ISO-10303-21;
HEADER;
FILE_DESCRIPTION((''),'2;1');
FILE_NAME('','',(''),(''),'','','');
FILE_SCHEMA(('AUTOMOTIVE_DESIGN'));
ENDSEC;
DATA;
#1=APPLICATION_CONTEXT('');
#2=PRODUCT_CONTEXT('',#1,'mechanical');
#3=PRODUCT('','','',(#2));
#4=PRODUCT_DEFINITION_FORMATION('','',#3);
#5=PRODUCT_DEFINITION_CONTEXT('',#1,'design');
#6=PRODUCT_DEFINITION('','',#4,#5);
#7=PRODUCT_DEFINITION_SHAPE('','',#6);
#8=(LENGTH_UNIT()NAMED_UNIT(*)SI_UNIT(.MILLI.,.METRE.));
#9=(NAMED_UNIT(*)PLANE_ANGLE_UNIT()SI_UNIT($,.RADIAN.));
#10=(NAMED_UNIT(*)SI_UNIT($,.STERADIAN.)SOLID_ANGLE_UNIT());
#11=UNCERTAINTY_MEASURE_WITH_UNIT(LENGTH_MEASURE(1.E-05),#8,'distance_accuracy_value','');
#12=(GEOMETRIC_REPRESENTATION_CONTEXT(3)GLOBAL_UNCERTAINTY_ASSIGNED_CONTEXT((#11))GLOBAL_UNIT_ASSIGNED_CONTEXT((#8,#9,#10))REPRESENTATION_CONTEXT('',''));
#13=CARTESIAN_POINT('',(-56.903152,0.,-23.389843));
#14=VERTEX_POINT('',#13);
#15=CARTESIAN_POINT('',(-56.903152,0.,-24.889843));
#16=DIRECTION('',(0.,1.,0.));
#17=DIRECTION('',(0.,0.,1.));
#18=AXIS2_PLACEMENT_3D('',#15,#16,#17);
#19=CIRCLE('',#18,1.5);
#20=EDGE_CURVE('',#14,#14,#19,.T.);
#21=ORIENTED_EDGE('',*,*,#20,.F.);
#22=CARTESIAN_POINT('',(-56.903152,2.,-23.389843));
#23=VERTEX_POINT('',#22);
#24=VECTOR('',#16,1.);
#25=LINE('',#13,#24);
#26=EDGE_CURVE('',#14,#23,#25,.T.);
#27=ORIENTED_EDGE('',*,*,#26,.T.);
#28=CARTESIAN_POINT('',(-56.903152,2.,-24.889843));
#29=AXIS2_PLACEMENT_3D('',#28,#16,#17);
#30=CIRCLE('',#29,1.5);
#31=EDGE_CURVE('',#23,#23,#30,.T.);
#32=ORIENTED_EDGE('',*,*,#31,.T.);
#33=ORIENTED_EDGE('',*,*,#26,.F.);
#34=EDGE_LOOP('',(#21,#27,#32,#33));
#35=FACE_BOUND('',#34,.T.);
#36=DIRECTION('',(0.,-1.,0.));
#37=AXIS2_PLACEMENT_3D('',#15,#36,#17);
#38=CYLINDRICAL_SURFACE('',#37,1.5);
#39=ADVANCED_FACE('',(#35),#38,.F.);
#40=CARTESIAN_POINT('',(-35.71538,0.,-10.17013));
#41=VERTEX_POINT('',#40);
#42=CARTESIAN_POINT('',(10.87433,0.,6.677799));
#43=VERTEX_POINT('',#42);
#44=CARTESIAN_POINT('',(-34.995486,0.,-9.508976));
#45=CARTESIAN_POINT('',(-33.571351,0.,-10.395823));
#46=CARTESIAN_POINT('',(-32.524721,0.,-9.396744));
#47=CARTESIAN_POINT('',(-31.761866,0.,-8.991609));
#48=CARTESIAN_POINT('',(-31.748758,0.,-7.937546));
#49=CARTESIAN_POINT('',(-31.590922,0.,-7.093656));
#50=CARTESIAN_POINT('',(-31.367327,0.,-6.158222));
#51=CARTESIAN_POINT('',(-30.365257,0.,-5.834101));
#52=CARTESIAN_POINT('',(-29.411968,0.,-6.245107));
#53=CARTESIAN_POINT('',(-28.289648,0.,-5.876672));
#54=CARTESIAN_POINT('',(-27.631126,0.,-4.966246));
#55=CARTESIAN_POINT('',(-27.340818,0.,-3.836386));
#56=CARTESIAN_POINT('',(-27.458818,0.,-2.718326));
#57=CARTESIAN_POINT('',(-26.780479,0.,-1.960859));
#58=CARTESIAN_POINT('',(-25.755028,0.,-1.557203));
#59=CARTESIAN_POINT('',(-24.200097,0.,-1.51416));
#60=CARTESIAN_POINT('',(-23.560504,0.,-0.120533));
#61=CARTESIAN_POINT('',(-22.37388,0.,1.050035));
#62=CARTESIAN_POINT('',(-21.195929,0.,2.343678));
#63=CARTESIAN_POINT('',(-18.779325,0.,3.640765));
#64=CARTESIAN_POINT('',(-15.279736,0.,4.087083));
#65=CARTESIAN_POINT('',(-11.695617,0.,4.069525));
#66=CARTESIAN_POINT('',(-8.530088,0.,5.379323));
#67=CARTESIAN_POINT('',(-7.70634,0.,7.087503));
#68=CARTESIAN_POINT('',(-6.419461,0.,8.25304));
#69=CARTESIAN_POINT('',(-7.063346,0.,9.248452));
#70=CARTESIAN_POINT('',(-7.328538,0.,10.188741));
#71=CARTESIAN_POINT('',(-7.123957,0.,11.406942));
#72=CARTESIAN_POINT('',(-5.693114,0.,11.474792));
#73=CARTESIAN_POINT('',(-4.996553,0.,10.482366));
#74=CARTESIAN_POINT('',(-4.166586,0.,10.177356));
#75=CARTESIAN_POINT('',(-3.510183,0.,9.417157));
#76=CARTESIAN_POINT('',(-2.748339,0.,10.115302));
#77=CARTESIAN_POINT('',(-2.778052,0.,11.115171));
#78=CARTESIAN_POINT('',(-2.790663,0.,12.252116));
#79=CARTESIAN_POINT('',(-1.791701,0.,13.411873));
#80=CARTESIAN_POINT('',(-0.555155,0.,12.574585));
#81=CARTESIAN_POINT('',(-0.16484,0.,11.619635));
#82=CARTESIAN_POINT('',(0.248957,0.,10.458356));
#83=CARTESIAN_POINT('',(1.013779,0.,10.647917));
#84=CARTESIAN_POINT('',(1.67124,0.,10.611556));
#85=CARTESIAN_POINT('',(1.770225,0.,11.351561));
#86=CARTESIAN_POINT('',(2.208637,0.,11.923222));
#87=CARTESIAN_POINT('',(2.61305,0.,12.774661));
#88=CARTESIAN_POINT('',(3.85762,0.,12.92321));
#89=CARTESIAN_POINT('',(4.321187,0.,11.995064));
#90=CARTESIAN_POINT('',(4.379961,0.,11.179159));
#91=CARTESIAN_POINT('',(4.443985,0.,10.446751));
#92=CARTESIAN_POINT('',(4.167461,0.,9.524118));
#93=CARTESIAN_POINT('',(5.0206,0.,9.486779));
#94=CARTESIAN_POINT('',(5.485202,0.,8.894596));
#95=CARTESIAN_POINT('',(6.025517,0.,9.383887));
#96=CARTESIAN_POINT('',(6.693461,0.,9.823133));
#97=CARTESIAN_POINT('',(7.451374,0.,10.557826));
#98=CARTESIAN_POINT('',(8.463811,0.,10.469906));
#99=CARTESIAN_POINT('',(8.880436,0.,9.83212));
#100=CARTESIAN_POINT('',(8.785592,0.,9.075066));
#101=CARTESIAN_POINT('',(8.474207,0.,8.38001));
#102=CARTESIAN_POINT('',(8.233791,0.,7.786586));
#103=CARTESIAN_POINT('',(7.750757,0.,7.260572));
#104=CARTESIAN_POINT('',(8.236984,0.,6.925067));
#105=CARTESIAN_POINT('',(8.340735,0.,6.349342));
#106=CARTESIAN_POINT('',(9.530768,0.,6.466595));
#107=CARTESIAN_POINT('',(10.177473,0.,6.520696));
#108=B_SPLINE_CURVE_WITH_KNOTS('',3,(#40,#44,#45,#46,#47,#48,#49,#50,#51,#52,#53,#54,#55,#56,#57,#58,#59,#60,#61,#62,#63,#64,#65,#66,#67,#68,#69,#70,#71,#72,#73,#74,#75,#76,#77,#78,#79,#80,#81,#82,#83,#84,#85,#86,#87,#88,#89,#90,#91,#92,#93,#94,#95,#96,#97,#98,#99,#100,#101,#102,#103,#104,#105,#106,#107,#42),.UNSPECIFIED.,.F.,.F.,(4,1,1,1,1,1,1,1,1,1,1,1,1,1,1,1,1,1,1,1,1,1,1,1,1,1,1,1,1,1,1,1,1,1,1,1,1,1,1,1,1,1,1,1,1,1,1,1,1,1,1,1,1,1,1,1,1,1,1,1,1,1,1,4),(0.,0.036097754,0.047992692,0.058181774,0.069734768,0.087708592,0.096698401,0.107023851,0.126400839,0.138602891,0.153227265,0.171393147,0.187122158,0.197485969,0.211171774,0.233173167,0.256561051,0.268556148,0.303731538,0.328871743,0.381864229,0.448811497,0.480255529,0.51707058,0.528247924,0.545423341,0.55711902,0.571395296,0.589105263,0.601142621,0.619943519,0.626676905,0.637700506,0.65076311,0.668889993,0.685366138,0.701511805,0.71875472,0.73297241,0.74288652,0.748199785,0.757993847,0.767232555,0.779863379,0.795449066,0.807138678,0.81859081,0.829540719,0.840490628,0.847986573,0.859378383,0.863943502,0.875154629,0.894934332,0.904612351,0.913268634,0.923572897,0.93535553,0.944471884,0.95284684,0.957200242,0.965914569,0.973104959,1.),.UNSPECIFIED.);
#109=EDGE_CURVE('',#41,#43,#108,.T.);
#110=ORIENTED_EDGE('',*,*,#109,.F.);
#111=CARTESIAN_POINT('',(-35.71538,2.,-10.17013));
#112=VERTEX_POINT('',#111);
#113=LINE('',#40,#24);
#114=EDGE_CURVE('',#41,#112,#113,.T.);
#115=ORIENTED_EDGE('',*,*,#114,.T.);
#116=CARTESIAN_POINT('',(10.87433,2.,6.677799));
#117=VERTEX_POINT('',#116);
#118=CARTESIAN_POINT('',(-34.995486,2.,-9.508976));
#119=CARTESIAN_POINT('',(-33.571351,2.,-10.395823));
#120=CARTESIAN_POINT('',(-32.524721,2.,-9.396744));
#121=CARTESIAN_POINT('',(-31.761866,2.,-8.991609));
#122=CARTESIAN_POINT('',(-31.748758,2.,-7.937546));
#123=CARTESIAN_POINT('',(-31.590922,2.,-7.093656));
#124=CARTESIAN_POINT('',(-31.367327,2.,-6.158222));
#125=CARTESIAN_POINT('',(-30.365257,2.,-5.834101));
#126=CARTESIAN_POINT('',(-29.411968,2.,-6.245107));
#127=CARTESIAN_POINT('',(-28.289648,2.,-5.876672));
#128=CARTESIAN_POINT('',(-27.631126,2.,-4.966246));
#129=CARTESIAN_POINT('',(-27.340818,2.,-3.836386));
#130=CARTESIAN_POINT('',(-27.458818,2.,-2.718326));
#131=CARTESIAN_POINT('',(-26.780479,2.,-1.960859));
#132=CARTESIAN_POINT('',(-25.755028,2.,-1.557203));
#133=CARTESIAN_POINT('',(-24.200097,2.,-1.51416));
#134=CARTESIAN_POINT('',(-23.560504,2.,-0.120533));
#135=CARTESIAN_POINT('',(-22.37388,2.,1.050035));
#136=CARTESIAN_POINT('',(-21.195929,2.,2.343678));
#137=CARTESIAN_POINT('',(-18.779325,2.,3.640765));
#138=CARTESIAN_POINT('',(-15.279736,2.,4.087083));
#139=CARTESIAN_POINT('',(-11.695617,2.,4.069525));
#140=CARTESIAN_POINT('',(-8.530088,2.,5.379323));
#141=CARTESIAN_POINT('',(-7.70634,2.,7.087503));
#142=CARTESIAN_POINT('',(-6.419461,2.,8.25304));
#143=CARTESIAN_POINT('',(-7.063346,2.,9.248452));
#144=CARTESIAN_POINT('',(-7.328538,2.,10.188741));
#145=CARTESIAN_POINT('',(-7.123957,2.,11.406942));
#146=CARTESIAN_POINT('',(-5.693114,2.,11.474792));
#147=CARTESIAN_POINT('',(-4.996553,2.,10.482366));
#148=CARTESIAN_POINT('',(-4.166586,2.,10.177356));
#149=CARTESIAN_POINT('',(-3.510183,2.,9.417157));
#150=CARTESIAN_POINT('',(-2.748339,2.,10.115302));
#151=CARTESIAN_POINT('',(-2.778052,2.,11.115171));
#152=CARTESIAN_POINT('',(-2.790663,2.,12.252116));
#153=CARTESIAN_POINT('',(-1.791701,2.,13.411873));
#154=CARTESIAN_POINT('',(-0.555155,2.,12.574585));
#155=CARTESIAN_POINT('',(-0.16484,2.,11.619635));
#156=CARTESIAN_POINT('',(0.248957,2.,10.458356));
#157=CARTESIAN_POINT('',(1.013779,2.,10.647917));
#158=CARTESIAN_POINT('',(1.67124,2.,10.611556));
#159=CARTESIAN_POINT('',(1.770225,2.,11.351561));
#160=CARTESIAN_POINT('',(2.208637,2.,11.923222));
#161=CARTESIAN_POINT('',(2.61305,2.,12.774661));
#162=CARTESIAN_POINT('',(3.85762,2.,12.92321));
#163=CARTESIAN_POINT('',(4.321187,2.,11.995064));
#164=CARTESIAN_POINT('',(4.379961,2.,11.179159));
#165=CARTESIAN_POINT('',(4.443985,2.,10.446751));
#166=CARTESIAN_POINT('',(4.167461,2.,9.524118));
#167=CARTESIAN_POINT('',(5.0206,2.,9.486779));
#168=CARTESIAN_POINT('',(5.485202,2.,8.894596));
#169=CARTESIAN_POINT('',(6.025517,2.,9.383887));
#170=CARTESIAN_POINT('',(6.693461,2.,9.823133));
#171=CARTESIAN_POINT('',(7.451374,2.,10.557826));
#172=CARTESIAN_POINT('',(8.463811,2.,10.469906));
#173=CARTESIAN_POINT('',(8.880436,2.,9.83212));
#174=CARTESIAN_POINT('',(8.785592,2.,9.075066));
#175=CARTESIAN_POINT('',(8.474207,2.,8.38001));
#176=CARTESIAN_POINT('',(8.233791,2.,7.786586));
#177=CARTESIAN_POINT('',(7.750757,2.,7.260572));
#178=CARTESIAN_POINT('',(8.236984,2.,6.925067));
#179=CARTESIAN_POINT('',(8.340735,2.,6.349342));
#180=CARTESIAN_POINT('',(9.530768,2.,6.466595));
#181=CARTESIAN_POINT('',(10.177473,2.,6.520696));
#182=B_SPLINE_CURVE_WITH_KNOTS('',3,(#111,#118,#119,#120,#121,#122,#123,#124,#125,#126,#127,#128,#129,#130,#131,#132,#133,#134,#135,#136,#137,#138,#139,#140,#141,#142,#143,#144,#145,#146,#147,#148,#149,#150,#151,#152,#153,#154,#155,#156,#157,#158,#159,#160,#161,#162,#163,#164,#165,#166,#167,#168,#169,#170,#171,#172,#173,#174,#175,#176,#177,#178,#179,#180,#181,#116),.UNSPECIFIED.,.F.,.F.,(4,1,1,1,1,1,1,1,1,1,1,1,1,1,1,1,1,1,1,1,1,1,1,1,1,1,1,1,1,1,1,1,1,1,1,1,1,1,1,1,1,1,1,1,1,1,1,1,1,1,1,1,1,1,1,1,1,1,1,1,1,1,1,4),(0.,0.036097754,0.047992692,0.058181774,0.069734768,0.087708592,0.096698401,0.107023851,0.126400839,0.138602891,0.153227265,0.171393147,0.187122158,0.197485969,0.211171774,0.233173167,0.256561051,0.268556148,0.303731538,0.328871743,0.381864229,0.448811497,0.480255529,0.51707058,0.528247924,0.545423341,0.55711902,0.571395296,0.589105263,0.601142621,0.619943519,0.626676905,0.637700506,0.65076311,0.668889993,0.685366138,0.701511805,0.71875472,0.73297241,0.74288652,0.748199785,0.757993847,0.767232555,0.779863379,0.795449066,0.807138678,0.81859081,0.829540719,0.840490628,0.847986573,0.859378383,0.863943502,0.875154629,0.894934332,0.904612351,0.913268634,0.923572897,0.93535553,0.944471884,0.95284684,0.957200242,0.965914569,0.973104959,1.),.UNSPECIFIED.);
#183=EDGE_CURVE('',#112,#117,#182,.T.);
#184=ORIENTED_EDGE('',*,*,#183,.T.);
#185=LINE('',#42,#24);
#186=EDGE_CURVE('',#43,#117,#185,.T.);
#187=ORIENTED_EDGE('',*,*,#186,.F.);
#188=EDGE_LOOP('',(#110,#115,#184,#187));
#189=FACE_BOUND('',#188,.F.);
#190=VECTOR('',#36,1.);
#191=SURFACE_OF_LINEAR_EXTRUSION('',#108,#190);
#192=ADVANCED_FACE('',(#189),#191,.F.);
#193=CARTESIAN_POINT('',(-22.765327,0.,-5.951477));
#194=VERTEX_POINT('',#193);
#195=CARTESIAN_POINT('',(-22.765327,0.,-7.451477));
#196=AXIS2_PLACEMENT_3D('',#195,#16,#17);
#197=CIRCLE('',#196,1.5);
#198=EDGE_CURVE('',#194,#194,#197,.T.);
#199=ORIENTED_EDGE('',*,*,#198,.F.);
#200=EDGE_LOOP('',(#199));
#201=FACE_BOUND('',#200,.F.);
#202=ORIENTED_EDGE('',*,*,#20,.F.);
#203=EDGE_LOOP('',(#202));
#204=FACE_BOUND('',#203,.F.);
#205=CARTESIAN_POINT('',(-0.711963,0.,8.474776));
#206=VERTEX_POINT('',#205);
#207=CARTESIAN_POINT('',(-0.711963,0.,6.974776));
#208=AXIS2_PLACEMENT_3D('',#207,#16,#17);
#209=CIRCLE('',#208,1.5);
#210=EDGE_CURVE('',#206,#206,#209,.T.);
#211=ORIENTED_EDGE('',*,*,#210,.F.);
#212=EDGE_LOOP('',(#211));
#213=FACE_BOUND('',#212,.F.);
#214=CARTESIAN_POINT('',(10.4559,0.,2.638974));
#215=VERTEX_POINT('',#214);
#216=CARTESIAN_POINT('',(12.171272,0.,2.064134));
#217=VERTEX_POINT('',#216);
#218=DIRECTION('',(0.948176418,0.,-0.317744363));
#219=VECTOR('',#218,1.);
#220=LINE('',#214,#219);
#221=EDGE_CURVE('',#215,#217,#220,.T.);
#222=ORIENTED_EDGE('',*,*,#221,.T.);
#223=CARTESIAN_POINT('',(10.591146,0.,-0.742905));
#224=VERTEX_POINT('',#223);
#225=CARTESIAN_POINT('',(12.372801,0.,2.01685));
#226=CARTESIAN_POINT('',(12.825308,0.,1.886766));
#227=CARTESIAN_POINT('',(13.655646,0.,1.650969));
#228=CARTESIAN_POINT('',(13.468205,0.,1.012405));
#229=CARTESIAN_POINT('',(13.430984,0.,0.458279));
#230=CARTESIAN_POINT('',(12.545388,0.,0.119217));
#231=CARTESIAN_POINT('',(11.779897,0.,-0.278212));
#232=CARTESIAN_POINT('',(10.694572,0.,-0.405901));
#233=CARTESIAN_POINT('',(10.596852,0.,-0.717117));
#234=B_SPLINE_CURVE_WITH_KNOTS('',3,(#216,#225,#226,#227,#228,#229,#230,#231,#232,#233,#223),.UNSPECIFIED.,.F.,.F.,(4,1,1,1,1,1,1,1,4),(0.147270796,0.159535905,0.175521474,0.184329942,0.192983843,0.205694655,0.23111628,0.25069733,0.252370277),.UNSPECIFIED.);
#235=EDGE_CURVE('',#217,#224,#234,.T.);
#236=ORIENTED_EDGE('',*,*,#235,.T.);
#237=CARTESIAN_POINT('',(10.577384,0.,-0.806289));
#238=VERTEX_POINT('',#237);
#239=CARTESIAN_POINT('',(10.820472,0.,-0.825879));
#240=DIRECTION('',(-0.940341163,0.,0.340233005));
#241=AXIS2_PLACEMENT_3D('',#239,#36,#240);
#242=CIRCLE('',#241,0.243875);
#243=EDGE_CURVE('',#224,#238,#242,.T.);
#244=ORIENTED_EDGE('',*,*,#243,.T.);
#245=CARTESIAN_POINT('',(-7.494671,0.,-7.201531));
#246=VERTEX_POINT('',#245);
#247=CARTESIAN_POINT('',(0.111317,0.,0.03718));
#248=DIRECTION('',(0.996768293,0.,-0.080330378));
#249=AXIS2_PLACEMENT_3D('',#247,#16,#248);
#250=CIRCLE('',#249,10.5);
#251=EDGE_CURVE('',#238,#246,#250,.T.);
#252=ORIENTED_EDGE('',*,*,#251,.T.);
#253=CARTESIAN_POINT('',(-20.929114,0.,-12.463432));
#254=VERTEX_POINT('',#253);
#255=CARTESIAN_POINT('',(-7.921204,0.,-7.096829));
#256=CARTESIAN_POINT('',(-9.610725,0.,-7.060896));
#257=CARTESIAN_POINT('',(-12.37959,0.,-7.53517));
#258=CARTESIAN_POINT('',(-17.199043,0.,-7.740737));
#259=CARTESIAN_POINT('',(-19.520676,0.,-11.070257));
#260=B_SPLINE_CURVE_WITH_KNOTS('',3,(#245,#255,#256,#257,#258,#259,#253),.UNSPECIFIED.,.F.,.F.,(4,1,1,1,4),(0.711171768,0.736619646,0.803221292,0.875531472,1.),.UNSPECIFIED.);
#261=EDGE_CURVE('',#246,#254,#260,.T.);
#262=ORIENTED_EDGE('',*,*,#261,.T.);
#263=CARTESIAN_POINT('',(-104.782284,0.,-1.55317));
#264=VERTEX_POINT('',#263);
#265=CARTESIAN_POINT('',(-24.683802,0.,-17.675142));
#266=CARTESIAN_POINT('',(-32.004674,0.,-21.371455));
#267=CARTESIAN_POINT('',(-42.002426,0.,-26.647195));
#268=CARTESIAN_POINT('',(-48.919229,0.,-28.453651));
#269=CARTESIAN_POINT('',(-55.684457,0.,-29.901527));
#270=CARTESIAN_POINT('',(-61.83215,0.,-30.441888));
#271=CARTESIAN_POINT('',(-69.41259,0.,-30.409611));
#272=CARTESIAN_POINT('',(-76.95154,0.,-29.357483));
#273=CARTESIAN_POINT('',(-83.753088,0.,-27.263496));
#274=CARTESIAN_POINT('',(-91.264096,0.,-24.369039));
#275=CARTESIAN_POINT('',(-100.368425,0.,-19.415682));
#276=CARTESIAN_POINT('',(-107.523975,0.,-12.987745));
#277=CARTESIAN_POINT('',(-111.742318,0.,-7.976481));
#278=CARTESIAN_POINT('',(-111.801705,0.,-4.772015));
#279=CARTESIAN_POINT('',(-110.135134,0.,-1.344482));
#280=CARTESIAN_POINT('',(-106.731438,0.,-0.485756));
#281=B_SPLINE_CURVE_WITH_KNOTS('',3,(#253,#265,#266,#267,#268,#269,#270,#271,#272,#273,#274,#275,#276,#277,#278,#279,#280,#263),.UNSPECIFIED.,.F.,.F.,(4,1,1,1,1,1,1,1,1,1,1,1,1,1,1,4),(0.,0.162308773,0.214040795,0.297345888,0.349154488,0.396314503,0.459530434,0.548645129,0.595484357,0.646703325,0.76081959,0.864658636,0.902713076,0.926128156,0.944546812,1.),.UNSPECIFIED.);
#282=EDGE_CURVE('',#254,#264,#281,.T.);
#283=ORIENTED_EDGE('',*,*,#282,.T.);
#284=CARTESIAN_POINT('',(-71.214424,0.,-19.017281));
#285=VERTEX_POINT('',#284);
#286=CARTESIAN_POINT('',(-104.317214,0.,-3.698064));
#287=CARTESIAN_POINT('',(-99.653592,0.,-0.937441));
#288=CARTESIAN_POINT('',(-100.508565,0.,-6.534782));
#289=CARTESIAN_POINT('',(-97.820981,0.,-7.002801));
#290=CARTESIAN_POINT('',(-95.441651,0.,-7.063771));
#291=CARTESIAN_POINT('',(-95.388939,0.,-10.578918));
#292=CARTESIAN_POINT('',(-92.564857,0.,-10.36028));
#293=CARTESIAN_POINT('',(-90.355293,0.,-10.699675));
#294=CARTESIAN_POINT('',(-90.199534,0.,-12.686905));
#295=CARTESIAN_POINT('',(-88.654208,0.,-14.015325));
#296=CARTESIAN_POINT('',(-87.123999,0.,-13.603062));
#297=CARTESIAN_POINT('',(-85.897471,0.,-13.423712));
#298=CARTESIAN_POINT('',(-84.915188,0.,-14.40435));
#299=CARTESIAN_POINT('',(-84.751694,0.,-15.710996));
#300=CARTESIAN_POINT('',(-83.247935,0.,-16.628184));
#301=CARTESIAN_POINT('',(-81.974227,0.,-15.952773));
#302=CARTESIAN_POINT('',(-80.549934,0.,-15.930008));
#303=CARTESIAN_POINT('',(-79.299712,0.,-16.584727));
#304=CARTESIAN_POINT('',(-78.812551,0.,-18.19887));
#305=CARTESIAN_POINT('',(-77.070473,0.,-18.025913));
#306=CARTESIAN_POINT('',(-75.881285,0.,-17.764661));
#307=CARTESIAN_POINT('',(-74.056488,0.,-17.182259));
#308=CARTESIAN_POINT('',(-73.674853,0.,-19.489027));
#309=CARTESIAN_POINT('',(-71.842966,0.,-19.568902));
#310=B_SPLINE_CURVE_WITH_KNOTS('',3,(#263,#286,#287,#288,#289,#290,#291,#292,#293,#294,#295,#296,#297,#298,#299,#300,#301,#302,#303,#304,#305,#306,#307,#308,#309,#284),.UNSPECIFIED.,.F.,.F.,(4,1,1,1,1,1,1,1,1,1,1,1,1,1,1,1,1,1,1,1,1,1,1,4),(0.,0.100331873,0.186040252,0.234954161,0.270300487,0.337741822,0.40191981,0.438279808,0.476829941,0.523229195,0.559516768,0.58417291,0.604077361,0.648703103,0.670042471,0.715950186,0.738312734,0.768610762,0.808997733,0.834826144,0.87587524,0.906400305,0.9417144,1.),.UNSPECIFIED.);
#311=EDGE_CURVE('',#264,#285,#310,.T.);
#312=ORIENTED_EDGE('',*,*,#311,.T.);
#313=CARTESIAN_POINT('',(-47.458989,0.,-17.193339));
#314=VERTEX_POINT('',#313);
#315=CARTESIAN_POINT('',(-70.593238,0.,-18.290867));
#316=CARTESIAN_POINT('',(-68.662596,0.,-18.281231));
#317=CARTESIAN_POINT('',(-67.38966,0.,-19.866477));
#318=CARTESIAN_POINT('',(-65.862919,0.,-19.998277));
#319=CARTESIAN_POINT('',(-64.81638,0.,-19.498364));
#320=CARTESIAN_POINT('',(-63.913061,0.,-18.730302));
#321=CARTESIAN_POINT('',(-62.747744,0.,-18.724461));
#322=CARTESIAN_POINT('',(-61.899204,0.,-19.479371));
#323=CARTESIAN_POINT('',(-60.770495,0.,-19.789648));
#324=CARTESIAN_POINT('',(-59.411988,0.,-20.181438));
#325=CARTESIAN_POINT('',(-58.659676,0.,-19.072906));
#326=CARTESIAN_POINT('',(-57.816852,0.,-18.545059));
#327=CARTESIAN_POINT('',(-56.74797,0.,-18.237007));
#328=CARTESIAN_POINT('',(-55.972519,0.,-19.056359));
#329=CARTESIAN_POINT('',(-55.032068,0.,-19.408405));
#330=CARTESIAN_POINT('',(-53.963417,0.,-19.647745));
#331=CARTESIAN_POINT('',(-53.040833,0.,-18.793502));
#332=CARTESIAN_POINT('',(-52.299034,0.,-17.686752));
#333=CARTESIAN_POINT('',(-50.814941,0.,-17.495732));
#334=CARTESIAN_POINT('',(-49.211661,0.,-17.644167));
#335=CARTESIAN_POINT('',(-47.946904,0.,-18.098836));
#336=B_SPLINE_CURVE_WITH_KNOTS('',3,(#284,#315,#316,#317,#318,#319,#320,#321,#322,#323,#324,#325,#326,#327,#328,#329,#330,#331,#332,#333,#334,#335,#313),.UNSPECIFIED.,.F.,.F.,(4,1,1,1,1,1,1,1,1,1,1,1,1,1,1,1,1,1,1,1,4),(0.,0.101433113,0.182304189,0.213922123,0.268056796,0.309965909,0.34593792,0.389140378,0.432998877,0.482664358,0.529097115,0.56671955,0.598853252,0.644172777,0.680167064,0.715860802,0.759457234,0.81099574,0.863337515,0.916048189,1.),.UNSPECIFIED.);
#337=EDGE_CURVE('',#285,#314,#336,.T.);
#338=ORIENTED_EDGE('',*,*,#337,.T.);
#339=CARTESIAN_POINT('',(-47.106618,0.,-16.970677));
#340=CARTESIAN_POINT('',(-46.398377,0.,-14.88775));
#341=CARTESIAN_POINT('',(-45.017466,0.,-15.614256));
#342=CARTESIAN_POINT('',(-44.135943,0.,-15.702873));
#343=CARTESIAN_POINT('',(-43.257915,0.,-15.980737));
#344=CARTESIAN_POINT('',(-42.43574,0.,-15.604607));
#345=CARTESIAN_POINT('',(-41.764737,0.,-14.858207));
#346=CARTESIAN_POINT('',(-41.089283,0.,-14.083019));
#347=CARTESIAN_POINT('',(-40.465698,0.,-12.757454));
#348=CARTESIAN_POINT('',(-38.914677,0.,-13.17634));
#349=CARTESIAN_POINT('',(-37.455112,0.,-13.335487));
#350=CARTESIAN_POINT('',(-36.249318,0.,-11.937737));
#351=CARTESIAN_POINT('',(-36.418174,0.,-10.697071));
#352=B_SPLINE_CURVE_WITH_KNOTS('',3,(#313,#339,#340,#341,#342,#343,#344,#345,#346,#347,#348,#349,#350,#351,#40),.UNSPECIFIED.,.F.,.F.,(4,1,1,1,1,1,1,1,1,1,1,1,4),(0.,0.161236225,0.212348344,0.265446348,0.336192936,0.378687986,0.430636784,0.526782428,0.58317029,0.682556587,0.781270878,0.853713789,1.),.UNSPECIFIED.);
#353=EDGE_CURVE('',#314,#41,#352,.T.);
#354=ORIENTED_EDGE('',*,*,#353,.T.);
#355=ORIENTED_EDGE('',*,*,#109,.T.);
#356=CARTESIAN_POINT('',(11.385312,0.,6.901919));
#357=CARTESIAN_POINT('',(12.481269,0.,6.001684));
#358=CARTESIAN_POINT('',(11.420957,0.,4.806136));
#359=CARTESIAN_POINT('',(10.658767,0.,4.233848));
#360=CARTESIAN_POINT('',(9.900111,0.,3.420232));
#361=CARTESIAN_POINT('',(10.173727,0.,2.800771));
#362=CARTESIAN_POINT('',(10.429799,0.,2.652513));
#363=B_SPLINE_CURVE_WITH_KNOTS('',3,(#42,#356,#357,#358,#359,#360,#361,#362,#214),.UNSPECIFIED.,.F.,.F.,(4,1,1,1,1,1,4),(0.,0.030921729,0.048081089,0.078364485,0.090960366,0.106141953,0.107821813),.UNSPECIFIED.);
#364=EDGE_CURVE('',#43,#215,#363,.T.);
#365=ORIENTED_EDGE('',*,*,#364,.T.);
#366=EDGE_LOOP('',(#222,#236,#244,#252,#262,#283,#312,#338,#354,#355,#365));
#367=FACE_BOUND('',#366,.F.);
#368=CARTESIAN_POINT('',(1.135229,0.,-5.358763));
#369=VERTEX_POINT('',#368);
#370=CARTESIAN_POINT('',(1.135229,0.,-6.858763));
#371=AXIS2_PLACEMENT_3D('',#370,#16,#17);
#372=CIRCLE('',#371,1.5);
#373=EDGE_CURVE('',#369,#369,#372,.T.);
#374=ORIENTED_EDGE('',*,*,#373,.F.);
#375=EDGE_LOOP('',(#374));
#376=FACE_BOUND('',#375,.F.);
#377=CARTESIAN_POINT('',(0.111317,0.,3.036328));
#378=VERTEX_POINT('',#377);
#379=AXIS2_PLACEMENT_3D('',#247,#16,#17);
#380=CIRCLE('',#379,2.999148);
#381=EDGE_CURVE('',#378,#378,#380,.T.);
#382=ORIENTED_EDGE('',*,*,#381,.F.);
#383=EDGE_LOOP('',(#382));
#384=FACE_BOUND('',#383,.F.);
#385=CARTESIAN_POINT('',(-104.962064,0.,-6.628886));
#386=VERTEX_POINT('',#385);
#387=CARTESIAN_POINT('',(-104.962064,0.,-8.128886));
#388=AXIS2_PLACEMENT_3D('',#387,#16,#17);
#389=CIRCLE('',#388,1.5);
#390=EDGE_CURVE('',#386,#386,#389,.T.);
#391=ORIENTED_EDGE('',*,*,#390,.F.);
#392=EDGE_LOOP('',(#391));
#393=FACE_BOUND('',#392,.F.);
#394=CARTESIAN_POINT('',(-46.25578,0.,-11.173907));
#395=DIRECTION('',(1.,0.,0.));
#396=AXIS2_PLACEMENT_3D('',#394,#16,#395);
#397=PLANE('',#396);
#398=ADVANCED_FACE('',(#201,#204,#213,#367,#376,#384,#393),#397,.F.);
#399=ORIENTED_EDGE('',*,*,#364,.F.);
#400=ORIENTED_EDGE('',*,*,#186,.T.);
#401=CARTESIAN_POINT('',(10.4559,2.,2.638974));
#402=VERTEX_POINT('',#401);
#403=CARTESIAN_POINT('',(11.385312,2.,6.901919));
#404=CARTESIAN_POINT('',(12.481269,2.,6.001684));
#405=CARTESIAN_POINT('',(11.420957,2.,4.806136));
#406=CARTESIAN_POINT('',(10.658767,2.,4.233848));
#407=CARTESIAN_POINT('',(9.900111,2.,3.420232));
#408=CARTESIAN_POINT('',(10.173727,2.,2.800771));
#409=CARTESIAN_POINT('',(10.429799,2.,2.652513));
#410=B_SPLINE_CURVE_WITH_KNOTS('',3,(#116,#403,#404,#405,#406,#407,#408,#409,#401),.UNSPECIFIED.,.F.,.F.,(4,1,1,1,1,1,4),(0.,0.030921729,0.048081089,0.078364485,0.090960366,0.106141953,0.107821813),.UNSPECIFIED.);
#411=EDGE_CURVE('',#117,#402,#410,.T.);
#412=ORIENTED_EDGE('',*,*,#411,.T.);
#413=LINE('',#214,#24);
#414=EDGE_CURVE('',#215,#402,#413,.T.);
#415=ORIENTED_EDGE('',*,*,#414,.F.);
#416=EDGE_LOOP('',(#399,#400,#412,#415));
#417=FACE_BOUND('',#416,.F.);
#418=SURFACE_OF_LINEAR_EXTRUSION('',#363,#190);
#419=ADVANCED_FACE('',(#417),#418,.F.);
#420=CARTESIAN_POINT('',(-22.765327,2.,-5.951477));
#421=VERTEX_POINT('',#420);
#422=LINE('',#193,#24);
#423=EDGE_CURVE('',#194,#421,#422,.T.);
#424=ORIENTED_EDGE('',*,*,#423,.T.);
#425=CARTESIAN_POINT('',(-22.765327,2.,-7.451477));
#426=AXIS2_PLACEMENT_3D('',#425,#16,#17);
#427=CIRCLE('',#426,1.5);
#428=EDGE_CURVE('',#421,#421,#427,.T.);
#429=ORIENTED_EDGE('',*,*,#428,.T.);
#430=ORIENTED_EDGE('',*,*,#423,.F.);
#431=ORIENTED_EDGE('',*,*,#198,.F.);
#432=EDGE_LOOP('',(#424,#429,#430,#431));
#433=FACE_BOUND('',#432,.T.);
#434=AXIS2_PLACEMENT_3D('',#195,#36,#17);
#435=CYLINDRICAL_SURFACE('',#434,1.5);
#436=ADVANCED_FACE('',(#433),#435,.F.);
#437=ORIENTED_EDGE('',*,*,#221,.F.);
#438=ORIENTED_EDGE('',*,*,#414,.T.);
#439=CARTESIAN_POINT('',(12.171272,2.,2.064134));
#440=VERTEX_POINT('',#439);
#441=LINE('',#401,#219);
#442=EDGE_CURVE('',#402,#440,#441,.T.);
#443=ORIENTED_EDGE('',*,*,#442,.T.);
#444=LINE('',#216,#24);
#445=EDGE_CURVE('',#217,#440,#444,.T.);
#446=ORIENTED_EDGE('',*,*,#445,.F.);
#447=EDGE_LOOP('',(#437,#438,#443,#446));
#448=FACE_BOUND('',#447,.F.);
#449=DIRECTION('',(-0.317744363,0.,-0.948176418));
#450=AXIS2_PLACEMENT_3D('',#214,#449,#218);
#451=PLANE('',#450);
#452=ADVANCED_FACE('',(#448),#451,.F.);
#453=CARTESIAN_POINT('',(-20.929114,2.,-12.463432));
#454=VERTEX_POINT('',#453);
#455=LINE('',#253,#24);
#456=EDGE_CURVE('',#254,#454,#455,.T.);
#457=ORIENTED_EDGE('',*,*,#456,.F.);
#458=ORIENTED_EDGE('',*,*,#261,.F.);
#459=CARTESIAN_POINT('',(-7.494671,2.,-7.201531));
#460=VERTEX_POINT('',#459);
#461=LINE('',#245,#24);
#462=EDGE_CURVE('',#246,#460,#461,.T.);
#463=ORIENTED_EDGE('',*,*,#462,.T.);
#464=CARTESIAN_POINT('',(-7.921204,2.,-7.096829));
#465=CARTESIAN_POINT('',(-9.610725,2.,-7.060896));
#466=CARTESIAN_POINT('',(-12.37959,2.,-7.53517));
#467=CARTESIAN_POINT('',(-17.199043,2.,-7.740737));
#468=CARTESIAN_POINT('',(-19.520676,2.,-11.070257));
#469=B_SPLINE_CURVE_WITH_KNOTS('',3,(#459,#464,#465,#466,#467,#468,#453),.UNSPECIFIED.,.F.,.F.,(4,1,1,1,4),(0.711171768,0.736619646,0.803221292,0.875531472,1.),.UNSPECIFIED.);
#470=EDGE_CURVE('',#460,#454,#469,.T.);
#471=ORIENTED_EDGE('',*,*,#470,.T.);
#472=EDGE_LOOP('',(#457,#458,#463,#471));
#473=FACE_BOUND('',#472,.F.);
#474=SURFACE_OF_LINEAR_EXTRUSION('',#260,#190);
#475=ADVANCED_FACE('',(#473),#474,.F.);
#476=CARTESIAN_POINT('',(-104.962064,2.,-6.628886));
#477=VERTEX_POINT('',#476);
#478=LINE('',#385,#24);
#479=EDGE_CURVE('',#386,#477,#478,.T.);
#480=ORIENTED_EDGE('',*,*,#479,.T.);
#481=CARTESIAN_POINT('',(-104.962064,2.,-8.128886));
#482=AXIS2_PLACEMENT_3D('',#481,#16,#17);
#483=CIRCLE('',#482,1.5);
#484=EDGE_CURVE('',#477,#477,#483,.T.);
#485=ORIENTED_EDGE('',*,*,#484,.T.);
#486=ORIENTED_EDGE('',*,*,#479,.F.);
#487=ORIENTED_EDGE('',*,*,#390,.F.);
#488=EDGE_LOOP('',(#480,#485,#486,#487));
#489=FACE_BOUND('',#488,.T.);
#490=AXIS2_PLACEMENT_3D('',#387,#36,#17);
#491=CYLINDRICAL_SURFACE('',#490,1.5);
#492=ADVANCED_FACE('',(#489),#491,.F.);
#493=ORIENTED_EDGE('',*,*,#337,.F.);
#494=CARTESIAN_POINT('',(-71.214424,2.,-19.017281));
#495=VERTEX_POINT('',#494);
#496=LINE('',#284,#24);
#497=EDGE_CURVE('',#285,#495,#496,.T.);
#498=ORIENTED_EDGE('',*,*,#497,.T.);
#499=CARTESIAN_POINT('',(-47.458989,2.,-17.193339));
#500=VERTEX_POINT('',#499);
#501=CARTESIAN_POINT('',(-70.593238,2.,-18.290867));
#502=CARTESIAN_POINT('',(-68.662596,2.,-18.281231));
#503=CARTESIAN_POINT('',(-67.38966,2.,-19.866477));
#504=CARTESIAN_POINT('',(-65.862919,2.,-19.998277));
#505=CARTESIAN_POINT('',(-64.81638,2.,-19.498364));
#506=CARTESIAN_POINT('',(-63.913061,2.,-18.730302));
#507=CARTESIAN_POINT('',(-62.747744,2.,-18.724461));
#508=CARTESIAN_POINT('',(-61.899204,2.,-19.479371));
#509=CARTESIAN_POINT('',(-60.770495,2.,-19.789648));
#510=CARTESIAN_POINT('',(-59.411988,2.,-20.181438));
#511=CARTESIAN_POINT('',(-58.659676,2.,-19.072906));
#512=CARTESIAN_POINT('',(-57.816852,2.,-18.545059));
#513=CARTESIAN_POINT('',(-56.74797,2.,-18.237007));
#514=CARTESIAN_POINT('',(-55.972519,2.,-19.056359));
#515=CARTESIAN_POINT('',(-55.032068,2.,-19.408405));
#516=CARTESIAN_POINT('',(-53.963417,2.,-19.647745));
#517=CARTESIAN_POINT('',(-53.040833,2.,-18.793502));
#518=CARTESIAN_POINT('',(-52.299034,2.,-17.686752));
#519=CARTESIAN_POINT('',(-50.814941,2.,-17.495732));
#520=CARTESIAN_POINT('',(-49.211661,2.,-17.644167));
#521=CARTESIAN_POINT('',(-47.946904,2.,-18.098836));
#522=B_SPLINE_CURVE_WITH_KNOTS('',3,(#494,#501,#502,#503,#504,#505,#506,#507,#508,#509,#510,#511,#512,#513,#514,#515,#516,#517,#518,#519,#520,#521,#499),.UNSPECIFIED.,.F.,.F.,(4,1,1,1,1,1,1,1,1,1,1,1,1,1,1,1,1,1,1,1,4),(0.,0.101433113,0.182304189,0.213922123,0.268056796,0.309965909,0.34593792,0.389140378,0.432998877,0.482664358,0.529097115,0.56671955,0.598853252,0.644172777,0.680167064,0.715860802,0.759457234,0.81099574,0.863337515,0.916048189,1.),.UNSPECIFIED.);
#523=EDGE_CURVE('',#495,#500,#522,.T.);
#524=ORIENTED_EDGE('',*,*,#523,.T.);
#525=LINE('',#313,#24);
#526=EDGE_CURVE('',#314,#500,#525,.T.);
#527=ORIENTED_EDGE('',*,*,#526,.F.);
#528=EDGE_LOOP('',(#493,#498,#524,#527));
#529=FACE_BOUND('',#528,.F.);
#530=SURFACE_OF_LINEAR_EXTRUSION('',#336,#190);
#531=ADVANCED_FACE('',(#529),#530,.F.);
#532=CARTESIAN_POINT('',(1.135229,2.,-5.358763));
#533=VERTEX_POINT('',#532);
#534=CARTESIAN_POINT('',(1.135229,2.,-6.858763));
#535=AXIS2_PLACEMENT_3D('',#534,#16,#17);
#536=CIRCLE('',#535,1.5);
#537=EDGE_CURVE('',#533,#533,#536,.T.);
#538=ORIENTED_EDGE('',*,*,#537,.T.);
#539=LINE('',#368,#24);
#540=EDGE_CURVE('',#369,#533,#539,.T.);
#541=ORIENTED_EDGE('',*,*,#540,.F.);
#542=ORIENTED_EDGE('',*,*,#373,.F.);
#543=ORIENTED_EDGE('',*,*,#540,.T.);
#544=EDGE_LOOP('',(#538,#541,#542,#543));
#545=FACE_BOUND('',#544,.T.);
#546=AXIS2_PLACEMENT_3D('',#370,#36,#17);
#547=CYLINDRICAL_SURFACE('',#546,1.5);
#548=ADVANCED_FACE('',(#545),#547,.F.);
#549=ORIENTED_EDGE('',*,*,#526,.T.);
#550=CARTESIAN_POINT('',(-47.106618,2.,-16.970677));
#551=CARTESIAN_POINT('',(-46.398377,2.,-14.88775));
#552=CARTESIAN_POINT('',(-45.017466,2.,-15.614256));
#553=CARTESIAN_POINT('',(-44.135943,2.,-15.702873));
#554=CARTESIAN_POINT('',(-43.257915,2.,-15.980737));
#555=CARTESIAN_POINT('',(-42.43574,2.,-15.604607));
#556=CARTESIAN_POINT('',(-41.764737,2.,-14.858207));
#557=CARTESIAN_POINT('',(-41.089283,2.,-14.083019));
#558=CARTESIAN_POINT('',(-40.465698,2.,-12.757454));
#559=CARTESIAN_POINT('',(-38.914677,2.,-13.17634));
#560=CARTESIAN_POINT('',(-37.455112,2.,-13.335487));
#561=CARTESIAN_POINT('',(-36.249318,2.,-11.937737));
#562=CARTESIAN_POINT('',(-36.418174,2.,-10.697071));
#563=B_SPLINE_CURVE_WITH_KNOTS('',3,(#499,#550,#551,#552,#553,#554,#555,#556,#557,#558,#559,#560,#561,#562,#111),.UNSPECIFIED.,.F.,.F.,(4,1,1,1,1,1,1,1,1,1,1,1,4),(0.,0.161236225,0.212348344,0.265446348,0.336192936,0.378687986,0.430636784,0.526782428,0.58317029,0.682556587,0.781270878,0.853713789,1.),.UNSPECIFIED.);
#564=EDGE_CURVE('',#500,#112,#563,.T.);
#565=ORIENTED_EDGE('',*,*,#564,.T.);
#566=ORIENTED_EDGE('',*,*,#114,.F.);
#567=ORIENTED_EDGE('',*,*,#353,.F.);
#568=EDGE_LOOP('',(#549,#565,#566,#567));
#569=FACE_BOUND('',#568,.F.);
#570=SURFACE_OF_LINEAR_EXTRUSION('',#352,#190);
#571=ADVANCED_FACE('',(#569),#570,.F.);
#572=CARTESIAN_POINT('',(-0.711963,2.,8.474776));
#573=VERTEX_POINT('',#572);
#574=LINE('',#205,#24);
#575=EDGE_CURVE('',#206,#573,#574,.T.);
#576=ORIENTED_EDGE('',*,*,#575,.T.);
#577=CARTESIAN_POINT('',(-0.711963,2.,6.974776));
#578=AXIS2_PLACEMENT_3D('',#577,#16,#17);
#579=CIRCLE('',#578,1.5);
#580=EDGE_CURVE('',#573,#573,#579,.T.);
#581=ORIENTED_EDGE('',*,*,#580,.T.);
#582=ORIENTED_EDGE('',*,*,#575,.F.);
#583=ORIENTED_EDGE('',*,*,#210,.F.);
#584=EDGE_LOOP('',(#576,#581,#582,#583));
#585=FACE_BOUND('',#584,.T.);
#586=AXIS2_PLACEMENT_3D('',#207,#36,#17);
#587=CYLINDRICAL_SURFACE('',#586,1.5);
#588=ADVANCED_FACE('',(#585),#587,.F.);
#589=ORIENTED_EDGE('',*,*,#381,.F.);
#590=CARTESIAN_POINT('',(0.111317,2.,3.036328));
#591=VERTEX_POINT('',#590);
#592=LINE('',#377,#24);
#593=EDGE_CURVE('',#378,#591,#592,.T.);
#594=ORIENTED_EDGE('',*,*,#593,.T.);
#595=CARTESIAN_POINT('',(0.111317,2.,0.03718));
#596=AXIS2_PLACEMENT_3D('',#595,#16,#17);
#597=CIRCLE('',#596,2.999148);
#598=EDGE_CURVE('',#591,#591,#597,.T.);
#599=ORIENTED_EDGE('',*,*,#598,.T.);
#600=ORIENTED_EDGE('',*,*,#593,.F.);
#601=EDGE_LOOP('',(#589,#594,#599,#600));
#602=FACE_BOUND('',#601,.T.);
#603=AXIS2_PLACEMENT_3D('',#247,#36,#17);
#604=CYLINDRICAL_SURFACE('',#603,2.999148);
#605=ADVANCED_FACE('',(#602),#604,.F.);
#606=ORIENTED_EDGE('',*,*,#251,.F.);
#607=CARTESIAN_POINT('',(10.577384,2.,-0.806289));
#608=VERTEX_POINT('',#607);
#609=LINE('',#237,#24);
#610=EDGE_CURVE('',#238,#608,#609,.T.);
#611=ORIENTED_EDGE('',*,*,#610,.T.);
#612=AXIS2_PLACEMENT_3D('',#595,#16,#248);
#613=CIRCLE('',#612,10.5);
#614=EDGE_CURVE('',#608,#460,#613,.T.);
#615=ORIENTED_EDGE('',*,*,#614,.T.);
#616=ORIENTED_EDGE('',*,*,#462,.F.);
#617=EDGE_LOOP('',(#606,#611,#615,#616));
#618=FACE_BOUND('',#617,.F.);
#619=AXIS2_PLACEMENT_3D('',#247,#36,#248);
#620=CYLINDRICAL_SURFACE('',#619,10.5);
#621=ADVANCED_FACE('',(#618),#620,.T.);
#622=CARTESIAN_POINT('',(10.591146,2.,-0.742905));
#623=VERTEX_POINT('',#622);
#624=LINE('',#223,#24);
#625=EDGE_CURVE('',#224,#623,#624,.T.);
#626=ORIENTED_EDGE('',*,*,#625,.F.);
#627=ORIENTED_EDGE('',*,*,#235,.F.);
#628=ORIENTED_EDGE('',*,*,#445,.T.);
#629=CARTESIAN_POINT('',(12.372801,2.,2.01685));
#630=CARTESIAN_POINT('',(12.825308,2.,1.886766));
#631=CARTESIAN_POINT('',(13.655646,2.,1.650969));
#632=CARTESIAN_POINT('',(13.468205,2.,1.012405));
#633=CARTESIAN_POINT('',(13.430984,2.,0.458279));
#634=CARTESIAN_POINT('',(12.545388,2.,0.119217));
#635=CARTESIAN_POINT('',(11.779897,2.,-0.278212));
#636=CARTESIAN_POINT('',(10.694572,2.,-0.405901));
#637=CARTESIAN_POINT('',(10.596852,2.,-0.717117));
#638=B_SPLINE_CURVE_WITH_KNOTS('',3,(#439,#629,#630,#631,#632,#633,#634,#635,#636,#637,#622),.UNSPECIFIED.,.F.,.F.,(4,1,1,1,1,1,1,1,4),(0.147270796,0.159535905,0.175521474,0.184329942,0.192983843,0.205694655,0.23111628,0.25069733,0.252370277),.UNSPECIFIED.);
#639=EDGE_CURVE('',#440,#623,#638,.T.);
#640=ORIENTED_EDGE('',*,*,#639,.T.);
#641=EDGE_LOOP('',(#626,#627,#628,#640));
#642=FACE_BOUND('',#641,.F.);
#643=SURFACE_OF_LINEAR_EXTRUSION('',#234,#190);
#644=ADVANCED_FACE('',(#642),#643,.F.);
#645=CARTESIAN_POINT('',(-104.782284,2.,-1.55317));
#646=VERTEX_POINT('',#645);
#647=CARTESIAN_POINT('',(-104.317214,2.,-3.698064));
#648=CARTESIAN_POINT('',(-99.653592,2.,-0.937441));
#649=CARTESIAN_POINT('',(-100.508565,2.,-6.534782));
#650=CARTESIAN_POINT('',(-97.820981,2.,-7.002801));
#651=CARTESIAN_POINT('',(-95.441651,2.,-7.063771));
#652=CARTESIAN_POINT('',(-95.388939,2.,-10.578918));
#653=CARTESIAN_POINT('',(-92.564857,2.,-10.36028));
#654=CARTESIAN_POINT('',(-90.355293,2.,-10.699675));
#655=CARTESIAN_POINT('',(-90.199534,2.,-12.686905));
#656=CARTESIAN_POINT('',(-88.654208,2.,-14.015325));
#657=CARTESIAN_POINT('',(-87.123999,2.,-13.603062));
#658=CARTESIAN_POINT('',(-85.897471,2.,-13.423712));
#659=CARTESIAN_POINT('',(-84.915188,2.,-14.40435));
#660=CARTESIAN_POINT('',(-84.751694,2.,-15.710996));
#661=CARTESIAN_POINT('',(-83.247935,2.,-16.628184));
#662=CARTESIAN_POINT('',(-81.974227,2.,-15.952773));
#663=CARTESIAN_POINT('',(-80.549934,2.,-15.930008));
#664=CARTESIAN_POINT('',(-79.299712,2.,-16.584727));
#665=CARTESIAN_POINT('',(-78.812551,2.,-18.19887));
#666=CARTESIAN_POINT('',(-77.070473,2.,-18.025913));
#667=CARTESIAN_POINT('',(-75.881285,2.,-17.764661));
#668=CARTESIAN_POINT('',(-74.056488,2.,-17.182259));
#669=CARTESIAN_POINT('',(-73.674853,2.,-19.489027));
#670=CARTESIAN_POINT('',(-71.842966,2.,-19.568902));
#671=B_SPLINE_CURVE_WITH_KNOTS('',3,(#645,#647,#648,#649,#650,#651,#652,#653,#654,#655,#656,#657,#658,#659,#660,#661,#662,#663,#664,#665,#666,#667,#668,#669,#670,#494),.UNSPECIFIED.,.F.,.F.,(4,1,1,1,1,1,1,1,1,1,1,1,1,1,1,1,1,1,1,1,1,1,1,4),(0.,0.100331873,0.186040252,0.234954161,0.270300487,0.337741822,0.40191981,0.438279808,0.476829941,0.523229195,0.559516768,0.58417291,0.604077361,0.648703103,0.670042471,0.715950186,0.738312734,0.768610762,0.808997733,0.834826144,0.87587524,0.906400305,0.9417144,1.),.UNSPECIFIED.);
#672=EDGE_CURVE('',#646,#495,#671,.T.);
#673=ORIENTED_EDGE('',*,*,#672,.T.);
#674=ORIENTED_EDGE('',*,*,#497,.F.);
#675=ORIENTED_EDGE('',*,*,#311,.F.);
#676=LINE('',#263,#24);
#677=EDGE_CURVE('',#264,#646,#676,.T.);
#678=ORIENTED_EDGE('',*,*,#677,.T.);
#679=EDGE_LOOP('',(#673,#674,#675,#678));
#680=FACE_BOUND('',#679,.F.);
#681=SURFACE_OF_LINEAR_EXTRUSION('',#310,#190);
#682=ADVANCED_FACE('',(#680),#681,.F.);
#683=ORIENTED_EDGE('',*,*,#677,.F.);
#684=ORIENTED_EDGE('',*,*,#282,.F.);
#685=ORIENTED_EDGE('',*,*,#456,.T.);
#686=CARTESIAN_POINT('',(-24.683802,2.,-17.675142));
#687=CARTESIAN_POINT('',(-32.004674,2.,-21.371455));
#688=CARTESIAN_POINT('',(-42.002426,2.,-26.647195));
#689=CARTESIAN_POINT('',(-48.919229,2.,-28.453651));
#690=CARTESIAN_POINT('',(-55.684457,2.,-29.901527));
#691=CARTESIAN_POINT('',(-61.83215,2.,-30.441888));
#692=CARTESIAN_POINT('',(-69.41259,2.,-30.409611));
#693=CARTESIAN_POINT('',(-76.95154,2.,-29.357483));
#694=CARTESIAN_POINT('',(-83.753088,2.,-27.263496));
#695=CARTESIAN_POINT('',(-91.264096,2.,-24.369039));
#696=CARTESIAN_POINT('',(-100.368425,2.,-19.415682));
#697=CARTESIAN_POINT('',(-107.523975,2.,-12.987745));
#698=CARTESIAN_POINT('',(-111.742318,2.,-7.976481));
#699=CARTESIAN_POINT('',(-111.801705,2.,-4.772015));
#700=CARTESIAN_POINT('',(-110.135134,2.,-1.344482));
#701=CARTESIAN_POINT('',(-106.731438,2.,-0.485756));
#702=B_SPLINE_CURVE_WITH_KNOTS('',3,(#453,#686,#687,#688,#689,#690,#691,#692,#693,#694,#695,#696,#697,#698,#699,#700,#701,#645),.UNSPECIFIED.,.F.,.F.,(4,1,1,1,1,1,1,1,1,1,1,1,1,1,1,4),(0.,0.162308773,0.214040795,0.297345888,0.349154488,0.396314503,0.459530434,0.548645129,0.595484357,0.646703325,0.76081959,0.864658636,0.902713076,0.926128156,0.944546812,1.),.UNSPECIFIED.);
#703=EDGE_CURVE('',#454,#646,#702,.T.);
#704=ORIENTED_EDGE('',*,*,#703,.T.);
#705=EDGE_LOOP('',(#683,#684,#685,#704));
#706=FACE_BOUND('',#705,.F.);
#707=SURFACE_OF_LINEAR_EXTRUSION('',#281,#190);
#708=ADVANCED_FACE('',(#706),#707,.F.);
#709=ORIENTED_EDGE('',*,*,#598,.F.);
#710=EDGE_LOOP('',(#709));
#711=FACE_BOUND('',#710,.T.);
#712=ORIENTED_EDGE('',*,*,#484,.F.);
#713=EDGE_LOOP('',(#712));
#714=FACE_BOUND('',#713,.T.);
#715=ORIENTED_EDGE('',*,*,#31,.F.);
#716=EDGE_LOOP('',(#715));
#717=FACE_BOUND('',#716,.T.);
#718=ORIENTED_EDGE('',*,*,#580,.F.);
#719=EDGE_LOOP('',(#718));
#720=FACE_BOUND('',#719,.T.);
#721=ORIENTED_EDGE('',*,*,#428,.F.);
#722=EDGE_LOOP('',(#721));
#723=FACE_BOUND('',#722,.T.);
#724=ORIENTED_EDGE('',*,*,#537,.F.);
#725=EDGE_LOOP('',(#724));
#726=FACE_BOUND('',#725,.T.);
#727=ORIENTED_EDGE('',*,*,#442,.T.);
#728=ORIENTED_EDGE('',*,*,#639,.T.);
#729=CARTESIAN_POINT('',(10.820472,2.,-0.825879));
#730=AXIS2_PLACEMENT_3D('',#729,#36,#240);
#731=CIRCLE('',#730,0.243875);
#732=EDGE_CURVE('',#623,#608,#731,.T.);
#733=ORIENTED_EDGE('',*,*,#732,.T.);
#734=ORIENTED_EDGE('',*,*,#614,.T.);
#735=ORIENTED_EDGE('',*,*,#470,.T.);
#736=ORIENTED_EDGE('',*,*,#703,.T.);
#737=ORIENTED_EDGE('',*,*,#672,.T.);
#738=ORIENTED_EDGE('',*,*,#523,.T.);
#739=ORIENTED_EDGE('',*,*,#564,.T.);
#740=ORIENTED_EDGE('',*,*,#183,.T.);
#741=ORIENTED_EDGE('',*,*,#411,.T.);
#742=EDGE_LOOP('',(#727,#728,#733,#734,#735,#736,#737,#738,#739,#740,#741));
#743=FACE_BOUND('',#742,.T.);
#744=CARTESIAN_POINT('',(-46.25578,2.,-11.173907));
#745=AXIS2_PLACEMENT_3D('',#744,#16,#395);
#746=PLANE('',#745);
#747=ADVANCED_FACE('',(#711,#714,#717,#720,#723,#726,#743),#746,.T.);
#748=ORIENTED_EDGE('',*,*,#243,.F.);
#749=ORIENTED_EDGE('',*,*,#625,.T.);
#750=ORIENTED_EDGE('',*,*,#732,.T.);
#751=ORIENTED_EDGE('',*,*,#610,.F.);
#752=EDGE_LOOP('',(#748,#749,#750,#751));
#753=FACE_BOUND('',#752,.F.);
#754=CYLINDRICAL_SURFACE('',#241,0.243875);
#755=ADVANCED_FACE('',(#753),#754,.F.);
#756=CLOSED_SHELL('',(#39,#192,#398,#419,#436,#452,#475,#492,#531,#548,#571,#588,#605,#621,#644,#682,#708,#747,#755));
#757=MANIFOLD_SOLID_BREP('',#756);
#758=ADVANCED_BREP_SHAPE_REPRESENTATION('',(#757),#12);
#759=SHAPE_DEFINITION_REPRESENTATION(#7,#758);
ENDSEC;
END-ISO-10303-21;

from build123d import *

# Parameters (mm, degrees)
SKETCH_1_R      = 1.5
SKETCH_1_R_2    = 2.999147906
EXTRUDE_1_DEPTH = 2


with BuildPart() as part:
    # 草图1 → 凸台-拉伸1 (new body)
    with BuildSketch(Plane(origin=(0, 0, 0), x_dir=(1, 0, 0), z_dir=(0, 1, 0))):
        with BuildLine():
            Line((10.455900132, -2.638973747), (12.171271629, -2.064133862))
            add(Edge.make_bspline(
                [(12.171271629, -2.064133862), (12.372801336, -2.016849509), (12.825308426, -1.886765514), (13.655646423, -1.650968866), (13.468205244, -1.012405016), (13.430984307, -0.458279246), (12.545387681, -0.119217039), (11.779897031, 0.278212169), (10.694572455, 0.405901224), (10.596852254, 0.717116861), (10.591145679, 0.742905006)],
                knots=[0.147270796, 0.147270796, 0.147270796, 0.147270796, 0.159535905, 0.175521474, 0.184329942, 0.192983843, 0.205694655, 0.23111628, 0.25069733, 0.252370277, 0.252370277, 0.252370277, 0.252370277], degree=3))
            ThreePointArc((10.591145679, 0.742905006), (10.58214851, 0.774137404), (10.577384491, 0.806288855))
            ThreePointArc((10.577384491, 0.806288855), (3.614144189, 9.861314902), (-7.494670512, 7.201531423))
            add(Edge.make_bspline(
                [(-7.494670512, 7.201531423), (-7.921204354, 7.096828525), (-9.610724853, 7.060896313), (-12.379589553, 7.535170352), (-17.199043256, 7.740736585), (-19.520676432, 11.070256626), (-20.929113858, 12.463431504)],
                knots=[0.711171768, 0.711171768, 0.711171768, 0.711171768, 0.736619646, 0.803221292, 0.875531472, 1, 1, 1, 1], degree=3))
            add(Edge.make_bspline(
                [(-20.929113858, 12.463431504), (-24.683802464, 17.675141592), (-32.004673593, 21.371454641), (-42.002425646, 26.647195483), (-48.919229149, 28.453651001), (-55.6844568, 29.901526591), (-61.832150207, 30.441888047), (-69.412590339, 30.409611152), (-76.951540257, 29.357483213), (-83.753087754, 27.263495508), (-91.264095604, 24.369039298), (-100.368425273, 19.415682331), (-107.523974883, 12.987745245), (-111.742318353, 7.976480662), (-111.801704662, 4.772014871), (-110.135134016, 1.344481749), (-106.731437881, 0.485755819), (-104.782283871, 1.553170246)],
                knots=[0, 0, 0, 0, 0.162308773, 0.214040795, 0.297345888, 0.349154488, 0.396314503, 0.459530434, 0.548645129, 0.595484357, 0.646703325, 0.76081959, 0.864658636, 0.902713076, 0.926128156, 0.944546812, 1, 1, 1, 1], degree=3))
            add(Edge.make_bspline(
                [(-104.782283871, 1.553170246), (-104.317213885, 3.698063505), (-99.653592287, 0.93744074), (-100.508564997, 6.534782019), (-97.820980569, 7.002801478), (-95.441650596, 7.063771202), (-95.388939244, 10.578918062), (-92.564857478, 10.360280099), (-90.355292652, 10.699675281), (-90.19953425, 12.686904732), (-88.654208185, 14.01532461), (-87.123998758, 13.603061807), (-85.897471237, 13.423711667), (-84.915188226, 14.404349979), (-84.751693942, 15.710995856), (-83.247934935, 16.628183532), (-81.974226628, 15.952772746), (-80.549934115, 15.930007851), (-79.299712184, 16.584727053), (-78.812550884, 18.198870142), (-77.070473106, 18.025913496), (-75.881285245, 17.764661215), (-74.05648752, 17.182258931), (-73.674852856, 19.489026995), (-71.842965839, 19.568901669), (-71.214423758, 19.017281041)],
                knots=[0, 0, 0, 0, 0.100331873, 0.186040252, 0.234954161, 0.270300487, 0.337741822, 0.40191981, 0.438279808, 0.476829941, 0.523229195, 0.559516768, 0.58417291, 0.604077361, 0.648703103, 0.670042471, 0.715950186, 0.738312734, 0.768610762, 0.808997733, 0.834826144, 0.87587524, 0.906400305, 0.9417144, 1, 1, 1, 1], degree=3))
            add(Edge.make_bspline(
                [(-71.214423758, 19.017281041), (-70.593237707, 18.290867091), (-68.662595961, 18.281231373), (-67.389659817, 19.86647669), (-65.862919225, 19.998276565), (-64.816379885, 19.498364229), (-63.913060508, 18.730302108), (-62.747743822, 18.724460661), (-61.899203578, 19.479370666), (-60.77049506, 19.789647993), (-59.411987986, 20.181438312), (-58.659675994, 19.072906138), (-57.816852401, 18.545059005), (-56.747970165, 18.237006833), (-55.972518951, 19.056359392), (-55.032067728, 19.408404584), (-53.963416871, 19.647745053), (-53.040833364, 18.793502182), (-52.299033918, 17.68675176), (-50.814941444, 17.495732348), (-49.211661347, 17.644166668), (-47.946904431, 18.098835543), (-47.458989145, 17.193338777)],
                knots=[0, 0, 0, 0, 0.101433113, 0.182304189, 0.213922123, 0.268056796, 0.309965909, 0.34593792, 0.389140378, 0.432998877, 0.482664358, 0.529097115, 0.56671955, 0.598853252, 0.644172777, 0.680167064, 0.715860802, 0.759457234, 0.81099574, 0.863337515, 0.916048189, 1, 1, 1, 1], degree=3))
            add(Edge.make_bspline(
                [(-47.458989145, 17.193338777), (-47.106617881, 16.970676575), (-46.398376817, 14.887749735), (-45.017466004, 15.614255531), (-44.135943026, 15.702872531), (-43.257914938, 15.980736821), (-42.435740175, 15.604606532), (-41.764736846, 14.858206903), (-41.089283235, 14.083019006), (-40.465697678, 12.75745404), (-38.914676722, 13.176340001), (-37.455111702, 13.335487104), (-36.249317567, 11.937736792), (-36.418173886, 10.697071111), (-35.715379656, 10.170130285)],
                knots=[0, 0, 0, 0, 0.161236225, 0.212348344, 0.265446348, 0.336192936, 0.378687986, 0.430636784, 0.526782428, 0.58317029, 0.682556587, 0.781270878, 0.853713789, 1, 1, 1, 1], degree=3))
            add(Edge.make_bspline(
                [(-35.715379656, 10.170130285), (-34.995485732, 9.508975752), (-33.571351409, 10.395822533), (-32.524721224, 9.3967436), (-31.761865661, 8.99160927), (-31.748757803, 7.937546336), (-31.590922485, 7.09365622), (-31.367326511, 6.158221504), (-30.365257289, 5.834101317), (-29.411967855, 6.245107419), (-28.289648396, 5.876671941), (-27.631126157, 4.96624602), (-27.340818237, 3.836386076), (-27.458818177, 2.718325895), (-26.780478903, 1.960858649), (-25.755027883, 1.557202717), (-24.200096577, 1.514160443), (-23.560504112, 0.120532563), (-22.373880468, -1.050035213), (-21.195928961, -2.343677766), (-18.779324975, -3.640765459), (-15.279736489, -4.087082836), (-11.695617004, -4.069524572), (-8.530087756, -5.379322629), (-7.706339614, -7.087502761), (-6.419461089, -8.253039633), (-7.063345775, -9.248451648), (-7.328537729, -10.188740868), (-7.123956988, -11.40694228), (-5.693114285, -11.474791529), (-4.996552806, -10.482365969), (-4.166586057, -10.17735604), (-3.510183133, -9.417156968), (-2.748339001, -10.115302225), (-2.778051716, -11.115171399), (-2.790663017, -12.252115576), (-1.791700902, -13.411872645), (-0.555155149, -12.574584667), (-0.164840274, -11.619634708), (0.248956515, -10.458355696), (1.013778617, -10.64791748), (1.671240476, -10.611556264), (1.770225057, -11.351561183), (2.20863686, -11.923222274), (2.613049812, -12.774661375), (3.857619795, -12.923210432), (4.321186796, -11.995064195), (4.379961492, -11.179159358), (4.443984819, -10.446750928), (4.167461344, -9.524117992), (5.020599505, -9.486778678), (5.48520172, -8.89459613), (6.025517317, -9.383886831), (6.693461042, -9.823133193), (7.451374313, -10.557825838), (8.463811096, -10.469905707), (8.880435843, -9.832120245), (8.785591695, -9.075066034), (8.47420716, -8.380009989), (8.233790596, -7.786585964), (7.750756732, -7.260571853), (8.236984345, -6.925066694), (8.340734589, -6.349341541), (9.530768193, -6.466595098), (10.177473459, -6.520696004), (10.874329717, -6.677799116)],
                knots=[0, 0, 0, 0, 0.036097754, 0.047992692, 0.058181774, 0.069734768, 0.087708592, 0.096698401, 0.107023851, 0.126400839, 0.138602891, 0.153227265, 0.171393147, 0.187122158, 0.197485969, 0.211171774, 0.233173167, 0.256561051, 0.268556148, 0.303731538, 0.328871743, 0.381864229, 0.448811497, 0.480255529, 0.51707058, 0.528247924, 0.545423341, 0.55711902, 0.571395296, 0.589105263, 0.601142621, 0.619943519, 0.626676905, 0.637700506, 0.65076311, 0.668889993, 0.685366138, 0.701511805, 0.71875472, 0.73297241, 0.74288652, 0.748199785, 0.757993847, 0.767232555, 0.779863379, 0.795449066, 0.807138678, 0.81859081, 0.829540719, 0.840490628, 0.847986573, 0.859378383, 0.863943502, 0.875154629, 0.894934332, 0.904612351, 0.913268634, 0.923572897, 0.93535553, 0.944471884, 0.95284684, 0.957200242, 0.965914569, 0.973104959, 1, 1, 1, 1], degree=3))
            add(Edge.make_bspline(
                [(10.874329717, -6.677799116), (11.385312136, -6.901918517), (12.481269037, -6.001683683), (11.420957321, -4.80613632), (10.65876664, -4.233847807), (9.900111498, -3.420231783), (10.173727402, -2.800770762), (10.429798983, -2.652512614), (10.455900132, -2.638973747)],
                knots=[0, 0, 0, 0, 0.030921729, 0.048081089, 0.078364485, 0.090960366, 0.106141953, 0.107821813, 0.107821813, 0.107821813, 0.107821813], degree=3))
        make_face()
        with Locations(Location((-104.962063857, 8.128886292, 0), (0, 0, 270))):
            Circle(SKETCH_1_R, mode=Mode.SUBTRACT)
        with Locations(Location((-56.903151793, 24.88984348, 0), (0, 0, 270))):
            Circle(SKETCH_1_R, mode=Mode.SUBTRACT)
        with Locations(Location((-22.76532669, 7.451477316, 0), (0, 0, 270))):
            Circle(SKETCH_1_R, mode=Mode.SUBTRACT)
        with Locations(Location((-0.711963496, -6.974775877, 0), (0, 0, 270))):
            Circle(SKETCH_1_R, mode=Mode.SUBTRACT)
        with Locations(Location((0.111317499, -0.037180102, 0), (0, 0, 270))):
            Circle(SKETCH_1_R_2, mode=Mode.SUBTRACT)
        with Locations(Location((1.135228957, 6.858762974, 0), (0, 0, 270))):
            Circle(SKETCH_1_R, mode=Mode.SUBTRACT)
    extrude(amount=EXTRUDE_1_DEPTH)


solid = part.part
